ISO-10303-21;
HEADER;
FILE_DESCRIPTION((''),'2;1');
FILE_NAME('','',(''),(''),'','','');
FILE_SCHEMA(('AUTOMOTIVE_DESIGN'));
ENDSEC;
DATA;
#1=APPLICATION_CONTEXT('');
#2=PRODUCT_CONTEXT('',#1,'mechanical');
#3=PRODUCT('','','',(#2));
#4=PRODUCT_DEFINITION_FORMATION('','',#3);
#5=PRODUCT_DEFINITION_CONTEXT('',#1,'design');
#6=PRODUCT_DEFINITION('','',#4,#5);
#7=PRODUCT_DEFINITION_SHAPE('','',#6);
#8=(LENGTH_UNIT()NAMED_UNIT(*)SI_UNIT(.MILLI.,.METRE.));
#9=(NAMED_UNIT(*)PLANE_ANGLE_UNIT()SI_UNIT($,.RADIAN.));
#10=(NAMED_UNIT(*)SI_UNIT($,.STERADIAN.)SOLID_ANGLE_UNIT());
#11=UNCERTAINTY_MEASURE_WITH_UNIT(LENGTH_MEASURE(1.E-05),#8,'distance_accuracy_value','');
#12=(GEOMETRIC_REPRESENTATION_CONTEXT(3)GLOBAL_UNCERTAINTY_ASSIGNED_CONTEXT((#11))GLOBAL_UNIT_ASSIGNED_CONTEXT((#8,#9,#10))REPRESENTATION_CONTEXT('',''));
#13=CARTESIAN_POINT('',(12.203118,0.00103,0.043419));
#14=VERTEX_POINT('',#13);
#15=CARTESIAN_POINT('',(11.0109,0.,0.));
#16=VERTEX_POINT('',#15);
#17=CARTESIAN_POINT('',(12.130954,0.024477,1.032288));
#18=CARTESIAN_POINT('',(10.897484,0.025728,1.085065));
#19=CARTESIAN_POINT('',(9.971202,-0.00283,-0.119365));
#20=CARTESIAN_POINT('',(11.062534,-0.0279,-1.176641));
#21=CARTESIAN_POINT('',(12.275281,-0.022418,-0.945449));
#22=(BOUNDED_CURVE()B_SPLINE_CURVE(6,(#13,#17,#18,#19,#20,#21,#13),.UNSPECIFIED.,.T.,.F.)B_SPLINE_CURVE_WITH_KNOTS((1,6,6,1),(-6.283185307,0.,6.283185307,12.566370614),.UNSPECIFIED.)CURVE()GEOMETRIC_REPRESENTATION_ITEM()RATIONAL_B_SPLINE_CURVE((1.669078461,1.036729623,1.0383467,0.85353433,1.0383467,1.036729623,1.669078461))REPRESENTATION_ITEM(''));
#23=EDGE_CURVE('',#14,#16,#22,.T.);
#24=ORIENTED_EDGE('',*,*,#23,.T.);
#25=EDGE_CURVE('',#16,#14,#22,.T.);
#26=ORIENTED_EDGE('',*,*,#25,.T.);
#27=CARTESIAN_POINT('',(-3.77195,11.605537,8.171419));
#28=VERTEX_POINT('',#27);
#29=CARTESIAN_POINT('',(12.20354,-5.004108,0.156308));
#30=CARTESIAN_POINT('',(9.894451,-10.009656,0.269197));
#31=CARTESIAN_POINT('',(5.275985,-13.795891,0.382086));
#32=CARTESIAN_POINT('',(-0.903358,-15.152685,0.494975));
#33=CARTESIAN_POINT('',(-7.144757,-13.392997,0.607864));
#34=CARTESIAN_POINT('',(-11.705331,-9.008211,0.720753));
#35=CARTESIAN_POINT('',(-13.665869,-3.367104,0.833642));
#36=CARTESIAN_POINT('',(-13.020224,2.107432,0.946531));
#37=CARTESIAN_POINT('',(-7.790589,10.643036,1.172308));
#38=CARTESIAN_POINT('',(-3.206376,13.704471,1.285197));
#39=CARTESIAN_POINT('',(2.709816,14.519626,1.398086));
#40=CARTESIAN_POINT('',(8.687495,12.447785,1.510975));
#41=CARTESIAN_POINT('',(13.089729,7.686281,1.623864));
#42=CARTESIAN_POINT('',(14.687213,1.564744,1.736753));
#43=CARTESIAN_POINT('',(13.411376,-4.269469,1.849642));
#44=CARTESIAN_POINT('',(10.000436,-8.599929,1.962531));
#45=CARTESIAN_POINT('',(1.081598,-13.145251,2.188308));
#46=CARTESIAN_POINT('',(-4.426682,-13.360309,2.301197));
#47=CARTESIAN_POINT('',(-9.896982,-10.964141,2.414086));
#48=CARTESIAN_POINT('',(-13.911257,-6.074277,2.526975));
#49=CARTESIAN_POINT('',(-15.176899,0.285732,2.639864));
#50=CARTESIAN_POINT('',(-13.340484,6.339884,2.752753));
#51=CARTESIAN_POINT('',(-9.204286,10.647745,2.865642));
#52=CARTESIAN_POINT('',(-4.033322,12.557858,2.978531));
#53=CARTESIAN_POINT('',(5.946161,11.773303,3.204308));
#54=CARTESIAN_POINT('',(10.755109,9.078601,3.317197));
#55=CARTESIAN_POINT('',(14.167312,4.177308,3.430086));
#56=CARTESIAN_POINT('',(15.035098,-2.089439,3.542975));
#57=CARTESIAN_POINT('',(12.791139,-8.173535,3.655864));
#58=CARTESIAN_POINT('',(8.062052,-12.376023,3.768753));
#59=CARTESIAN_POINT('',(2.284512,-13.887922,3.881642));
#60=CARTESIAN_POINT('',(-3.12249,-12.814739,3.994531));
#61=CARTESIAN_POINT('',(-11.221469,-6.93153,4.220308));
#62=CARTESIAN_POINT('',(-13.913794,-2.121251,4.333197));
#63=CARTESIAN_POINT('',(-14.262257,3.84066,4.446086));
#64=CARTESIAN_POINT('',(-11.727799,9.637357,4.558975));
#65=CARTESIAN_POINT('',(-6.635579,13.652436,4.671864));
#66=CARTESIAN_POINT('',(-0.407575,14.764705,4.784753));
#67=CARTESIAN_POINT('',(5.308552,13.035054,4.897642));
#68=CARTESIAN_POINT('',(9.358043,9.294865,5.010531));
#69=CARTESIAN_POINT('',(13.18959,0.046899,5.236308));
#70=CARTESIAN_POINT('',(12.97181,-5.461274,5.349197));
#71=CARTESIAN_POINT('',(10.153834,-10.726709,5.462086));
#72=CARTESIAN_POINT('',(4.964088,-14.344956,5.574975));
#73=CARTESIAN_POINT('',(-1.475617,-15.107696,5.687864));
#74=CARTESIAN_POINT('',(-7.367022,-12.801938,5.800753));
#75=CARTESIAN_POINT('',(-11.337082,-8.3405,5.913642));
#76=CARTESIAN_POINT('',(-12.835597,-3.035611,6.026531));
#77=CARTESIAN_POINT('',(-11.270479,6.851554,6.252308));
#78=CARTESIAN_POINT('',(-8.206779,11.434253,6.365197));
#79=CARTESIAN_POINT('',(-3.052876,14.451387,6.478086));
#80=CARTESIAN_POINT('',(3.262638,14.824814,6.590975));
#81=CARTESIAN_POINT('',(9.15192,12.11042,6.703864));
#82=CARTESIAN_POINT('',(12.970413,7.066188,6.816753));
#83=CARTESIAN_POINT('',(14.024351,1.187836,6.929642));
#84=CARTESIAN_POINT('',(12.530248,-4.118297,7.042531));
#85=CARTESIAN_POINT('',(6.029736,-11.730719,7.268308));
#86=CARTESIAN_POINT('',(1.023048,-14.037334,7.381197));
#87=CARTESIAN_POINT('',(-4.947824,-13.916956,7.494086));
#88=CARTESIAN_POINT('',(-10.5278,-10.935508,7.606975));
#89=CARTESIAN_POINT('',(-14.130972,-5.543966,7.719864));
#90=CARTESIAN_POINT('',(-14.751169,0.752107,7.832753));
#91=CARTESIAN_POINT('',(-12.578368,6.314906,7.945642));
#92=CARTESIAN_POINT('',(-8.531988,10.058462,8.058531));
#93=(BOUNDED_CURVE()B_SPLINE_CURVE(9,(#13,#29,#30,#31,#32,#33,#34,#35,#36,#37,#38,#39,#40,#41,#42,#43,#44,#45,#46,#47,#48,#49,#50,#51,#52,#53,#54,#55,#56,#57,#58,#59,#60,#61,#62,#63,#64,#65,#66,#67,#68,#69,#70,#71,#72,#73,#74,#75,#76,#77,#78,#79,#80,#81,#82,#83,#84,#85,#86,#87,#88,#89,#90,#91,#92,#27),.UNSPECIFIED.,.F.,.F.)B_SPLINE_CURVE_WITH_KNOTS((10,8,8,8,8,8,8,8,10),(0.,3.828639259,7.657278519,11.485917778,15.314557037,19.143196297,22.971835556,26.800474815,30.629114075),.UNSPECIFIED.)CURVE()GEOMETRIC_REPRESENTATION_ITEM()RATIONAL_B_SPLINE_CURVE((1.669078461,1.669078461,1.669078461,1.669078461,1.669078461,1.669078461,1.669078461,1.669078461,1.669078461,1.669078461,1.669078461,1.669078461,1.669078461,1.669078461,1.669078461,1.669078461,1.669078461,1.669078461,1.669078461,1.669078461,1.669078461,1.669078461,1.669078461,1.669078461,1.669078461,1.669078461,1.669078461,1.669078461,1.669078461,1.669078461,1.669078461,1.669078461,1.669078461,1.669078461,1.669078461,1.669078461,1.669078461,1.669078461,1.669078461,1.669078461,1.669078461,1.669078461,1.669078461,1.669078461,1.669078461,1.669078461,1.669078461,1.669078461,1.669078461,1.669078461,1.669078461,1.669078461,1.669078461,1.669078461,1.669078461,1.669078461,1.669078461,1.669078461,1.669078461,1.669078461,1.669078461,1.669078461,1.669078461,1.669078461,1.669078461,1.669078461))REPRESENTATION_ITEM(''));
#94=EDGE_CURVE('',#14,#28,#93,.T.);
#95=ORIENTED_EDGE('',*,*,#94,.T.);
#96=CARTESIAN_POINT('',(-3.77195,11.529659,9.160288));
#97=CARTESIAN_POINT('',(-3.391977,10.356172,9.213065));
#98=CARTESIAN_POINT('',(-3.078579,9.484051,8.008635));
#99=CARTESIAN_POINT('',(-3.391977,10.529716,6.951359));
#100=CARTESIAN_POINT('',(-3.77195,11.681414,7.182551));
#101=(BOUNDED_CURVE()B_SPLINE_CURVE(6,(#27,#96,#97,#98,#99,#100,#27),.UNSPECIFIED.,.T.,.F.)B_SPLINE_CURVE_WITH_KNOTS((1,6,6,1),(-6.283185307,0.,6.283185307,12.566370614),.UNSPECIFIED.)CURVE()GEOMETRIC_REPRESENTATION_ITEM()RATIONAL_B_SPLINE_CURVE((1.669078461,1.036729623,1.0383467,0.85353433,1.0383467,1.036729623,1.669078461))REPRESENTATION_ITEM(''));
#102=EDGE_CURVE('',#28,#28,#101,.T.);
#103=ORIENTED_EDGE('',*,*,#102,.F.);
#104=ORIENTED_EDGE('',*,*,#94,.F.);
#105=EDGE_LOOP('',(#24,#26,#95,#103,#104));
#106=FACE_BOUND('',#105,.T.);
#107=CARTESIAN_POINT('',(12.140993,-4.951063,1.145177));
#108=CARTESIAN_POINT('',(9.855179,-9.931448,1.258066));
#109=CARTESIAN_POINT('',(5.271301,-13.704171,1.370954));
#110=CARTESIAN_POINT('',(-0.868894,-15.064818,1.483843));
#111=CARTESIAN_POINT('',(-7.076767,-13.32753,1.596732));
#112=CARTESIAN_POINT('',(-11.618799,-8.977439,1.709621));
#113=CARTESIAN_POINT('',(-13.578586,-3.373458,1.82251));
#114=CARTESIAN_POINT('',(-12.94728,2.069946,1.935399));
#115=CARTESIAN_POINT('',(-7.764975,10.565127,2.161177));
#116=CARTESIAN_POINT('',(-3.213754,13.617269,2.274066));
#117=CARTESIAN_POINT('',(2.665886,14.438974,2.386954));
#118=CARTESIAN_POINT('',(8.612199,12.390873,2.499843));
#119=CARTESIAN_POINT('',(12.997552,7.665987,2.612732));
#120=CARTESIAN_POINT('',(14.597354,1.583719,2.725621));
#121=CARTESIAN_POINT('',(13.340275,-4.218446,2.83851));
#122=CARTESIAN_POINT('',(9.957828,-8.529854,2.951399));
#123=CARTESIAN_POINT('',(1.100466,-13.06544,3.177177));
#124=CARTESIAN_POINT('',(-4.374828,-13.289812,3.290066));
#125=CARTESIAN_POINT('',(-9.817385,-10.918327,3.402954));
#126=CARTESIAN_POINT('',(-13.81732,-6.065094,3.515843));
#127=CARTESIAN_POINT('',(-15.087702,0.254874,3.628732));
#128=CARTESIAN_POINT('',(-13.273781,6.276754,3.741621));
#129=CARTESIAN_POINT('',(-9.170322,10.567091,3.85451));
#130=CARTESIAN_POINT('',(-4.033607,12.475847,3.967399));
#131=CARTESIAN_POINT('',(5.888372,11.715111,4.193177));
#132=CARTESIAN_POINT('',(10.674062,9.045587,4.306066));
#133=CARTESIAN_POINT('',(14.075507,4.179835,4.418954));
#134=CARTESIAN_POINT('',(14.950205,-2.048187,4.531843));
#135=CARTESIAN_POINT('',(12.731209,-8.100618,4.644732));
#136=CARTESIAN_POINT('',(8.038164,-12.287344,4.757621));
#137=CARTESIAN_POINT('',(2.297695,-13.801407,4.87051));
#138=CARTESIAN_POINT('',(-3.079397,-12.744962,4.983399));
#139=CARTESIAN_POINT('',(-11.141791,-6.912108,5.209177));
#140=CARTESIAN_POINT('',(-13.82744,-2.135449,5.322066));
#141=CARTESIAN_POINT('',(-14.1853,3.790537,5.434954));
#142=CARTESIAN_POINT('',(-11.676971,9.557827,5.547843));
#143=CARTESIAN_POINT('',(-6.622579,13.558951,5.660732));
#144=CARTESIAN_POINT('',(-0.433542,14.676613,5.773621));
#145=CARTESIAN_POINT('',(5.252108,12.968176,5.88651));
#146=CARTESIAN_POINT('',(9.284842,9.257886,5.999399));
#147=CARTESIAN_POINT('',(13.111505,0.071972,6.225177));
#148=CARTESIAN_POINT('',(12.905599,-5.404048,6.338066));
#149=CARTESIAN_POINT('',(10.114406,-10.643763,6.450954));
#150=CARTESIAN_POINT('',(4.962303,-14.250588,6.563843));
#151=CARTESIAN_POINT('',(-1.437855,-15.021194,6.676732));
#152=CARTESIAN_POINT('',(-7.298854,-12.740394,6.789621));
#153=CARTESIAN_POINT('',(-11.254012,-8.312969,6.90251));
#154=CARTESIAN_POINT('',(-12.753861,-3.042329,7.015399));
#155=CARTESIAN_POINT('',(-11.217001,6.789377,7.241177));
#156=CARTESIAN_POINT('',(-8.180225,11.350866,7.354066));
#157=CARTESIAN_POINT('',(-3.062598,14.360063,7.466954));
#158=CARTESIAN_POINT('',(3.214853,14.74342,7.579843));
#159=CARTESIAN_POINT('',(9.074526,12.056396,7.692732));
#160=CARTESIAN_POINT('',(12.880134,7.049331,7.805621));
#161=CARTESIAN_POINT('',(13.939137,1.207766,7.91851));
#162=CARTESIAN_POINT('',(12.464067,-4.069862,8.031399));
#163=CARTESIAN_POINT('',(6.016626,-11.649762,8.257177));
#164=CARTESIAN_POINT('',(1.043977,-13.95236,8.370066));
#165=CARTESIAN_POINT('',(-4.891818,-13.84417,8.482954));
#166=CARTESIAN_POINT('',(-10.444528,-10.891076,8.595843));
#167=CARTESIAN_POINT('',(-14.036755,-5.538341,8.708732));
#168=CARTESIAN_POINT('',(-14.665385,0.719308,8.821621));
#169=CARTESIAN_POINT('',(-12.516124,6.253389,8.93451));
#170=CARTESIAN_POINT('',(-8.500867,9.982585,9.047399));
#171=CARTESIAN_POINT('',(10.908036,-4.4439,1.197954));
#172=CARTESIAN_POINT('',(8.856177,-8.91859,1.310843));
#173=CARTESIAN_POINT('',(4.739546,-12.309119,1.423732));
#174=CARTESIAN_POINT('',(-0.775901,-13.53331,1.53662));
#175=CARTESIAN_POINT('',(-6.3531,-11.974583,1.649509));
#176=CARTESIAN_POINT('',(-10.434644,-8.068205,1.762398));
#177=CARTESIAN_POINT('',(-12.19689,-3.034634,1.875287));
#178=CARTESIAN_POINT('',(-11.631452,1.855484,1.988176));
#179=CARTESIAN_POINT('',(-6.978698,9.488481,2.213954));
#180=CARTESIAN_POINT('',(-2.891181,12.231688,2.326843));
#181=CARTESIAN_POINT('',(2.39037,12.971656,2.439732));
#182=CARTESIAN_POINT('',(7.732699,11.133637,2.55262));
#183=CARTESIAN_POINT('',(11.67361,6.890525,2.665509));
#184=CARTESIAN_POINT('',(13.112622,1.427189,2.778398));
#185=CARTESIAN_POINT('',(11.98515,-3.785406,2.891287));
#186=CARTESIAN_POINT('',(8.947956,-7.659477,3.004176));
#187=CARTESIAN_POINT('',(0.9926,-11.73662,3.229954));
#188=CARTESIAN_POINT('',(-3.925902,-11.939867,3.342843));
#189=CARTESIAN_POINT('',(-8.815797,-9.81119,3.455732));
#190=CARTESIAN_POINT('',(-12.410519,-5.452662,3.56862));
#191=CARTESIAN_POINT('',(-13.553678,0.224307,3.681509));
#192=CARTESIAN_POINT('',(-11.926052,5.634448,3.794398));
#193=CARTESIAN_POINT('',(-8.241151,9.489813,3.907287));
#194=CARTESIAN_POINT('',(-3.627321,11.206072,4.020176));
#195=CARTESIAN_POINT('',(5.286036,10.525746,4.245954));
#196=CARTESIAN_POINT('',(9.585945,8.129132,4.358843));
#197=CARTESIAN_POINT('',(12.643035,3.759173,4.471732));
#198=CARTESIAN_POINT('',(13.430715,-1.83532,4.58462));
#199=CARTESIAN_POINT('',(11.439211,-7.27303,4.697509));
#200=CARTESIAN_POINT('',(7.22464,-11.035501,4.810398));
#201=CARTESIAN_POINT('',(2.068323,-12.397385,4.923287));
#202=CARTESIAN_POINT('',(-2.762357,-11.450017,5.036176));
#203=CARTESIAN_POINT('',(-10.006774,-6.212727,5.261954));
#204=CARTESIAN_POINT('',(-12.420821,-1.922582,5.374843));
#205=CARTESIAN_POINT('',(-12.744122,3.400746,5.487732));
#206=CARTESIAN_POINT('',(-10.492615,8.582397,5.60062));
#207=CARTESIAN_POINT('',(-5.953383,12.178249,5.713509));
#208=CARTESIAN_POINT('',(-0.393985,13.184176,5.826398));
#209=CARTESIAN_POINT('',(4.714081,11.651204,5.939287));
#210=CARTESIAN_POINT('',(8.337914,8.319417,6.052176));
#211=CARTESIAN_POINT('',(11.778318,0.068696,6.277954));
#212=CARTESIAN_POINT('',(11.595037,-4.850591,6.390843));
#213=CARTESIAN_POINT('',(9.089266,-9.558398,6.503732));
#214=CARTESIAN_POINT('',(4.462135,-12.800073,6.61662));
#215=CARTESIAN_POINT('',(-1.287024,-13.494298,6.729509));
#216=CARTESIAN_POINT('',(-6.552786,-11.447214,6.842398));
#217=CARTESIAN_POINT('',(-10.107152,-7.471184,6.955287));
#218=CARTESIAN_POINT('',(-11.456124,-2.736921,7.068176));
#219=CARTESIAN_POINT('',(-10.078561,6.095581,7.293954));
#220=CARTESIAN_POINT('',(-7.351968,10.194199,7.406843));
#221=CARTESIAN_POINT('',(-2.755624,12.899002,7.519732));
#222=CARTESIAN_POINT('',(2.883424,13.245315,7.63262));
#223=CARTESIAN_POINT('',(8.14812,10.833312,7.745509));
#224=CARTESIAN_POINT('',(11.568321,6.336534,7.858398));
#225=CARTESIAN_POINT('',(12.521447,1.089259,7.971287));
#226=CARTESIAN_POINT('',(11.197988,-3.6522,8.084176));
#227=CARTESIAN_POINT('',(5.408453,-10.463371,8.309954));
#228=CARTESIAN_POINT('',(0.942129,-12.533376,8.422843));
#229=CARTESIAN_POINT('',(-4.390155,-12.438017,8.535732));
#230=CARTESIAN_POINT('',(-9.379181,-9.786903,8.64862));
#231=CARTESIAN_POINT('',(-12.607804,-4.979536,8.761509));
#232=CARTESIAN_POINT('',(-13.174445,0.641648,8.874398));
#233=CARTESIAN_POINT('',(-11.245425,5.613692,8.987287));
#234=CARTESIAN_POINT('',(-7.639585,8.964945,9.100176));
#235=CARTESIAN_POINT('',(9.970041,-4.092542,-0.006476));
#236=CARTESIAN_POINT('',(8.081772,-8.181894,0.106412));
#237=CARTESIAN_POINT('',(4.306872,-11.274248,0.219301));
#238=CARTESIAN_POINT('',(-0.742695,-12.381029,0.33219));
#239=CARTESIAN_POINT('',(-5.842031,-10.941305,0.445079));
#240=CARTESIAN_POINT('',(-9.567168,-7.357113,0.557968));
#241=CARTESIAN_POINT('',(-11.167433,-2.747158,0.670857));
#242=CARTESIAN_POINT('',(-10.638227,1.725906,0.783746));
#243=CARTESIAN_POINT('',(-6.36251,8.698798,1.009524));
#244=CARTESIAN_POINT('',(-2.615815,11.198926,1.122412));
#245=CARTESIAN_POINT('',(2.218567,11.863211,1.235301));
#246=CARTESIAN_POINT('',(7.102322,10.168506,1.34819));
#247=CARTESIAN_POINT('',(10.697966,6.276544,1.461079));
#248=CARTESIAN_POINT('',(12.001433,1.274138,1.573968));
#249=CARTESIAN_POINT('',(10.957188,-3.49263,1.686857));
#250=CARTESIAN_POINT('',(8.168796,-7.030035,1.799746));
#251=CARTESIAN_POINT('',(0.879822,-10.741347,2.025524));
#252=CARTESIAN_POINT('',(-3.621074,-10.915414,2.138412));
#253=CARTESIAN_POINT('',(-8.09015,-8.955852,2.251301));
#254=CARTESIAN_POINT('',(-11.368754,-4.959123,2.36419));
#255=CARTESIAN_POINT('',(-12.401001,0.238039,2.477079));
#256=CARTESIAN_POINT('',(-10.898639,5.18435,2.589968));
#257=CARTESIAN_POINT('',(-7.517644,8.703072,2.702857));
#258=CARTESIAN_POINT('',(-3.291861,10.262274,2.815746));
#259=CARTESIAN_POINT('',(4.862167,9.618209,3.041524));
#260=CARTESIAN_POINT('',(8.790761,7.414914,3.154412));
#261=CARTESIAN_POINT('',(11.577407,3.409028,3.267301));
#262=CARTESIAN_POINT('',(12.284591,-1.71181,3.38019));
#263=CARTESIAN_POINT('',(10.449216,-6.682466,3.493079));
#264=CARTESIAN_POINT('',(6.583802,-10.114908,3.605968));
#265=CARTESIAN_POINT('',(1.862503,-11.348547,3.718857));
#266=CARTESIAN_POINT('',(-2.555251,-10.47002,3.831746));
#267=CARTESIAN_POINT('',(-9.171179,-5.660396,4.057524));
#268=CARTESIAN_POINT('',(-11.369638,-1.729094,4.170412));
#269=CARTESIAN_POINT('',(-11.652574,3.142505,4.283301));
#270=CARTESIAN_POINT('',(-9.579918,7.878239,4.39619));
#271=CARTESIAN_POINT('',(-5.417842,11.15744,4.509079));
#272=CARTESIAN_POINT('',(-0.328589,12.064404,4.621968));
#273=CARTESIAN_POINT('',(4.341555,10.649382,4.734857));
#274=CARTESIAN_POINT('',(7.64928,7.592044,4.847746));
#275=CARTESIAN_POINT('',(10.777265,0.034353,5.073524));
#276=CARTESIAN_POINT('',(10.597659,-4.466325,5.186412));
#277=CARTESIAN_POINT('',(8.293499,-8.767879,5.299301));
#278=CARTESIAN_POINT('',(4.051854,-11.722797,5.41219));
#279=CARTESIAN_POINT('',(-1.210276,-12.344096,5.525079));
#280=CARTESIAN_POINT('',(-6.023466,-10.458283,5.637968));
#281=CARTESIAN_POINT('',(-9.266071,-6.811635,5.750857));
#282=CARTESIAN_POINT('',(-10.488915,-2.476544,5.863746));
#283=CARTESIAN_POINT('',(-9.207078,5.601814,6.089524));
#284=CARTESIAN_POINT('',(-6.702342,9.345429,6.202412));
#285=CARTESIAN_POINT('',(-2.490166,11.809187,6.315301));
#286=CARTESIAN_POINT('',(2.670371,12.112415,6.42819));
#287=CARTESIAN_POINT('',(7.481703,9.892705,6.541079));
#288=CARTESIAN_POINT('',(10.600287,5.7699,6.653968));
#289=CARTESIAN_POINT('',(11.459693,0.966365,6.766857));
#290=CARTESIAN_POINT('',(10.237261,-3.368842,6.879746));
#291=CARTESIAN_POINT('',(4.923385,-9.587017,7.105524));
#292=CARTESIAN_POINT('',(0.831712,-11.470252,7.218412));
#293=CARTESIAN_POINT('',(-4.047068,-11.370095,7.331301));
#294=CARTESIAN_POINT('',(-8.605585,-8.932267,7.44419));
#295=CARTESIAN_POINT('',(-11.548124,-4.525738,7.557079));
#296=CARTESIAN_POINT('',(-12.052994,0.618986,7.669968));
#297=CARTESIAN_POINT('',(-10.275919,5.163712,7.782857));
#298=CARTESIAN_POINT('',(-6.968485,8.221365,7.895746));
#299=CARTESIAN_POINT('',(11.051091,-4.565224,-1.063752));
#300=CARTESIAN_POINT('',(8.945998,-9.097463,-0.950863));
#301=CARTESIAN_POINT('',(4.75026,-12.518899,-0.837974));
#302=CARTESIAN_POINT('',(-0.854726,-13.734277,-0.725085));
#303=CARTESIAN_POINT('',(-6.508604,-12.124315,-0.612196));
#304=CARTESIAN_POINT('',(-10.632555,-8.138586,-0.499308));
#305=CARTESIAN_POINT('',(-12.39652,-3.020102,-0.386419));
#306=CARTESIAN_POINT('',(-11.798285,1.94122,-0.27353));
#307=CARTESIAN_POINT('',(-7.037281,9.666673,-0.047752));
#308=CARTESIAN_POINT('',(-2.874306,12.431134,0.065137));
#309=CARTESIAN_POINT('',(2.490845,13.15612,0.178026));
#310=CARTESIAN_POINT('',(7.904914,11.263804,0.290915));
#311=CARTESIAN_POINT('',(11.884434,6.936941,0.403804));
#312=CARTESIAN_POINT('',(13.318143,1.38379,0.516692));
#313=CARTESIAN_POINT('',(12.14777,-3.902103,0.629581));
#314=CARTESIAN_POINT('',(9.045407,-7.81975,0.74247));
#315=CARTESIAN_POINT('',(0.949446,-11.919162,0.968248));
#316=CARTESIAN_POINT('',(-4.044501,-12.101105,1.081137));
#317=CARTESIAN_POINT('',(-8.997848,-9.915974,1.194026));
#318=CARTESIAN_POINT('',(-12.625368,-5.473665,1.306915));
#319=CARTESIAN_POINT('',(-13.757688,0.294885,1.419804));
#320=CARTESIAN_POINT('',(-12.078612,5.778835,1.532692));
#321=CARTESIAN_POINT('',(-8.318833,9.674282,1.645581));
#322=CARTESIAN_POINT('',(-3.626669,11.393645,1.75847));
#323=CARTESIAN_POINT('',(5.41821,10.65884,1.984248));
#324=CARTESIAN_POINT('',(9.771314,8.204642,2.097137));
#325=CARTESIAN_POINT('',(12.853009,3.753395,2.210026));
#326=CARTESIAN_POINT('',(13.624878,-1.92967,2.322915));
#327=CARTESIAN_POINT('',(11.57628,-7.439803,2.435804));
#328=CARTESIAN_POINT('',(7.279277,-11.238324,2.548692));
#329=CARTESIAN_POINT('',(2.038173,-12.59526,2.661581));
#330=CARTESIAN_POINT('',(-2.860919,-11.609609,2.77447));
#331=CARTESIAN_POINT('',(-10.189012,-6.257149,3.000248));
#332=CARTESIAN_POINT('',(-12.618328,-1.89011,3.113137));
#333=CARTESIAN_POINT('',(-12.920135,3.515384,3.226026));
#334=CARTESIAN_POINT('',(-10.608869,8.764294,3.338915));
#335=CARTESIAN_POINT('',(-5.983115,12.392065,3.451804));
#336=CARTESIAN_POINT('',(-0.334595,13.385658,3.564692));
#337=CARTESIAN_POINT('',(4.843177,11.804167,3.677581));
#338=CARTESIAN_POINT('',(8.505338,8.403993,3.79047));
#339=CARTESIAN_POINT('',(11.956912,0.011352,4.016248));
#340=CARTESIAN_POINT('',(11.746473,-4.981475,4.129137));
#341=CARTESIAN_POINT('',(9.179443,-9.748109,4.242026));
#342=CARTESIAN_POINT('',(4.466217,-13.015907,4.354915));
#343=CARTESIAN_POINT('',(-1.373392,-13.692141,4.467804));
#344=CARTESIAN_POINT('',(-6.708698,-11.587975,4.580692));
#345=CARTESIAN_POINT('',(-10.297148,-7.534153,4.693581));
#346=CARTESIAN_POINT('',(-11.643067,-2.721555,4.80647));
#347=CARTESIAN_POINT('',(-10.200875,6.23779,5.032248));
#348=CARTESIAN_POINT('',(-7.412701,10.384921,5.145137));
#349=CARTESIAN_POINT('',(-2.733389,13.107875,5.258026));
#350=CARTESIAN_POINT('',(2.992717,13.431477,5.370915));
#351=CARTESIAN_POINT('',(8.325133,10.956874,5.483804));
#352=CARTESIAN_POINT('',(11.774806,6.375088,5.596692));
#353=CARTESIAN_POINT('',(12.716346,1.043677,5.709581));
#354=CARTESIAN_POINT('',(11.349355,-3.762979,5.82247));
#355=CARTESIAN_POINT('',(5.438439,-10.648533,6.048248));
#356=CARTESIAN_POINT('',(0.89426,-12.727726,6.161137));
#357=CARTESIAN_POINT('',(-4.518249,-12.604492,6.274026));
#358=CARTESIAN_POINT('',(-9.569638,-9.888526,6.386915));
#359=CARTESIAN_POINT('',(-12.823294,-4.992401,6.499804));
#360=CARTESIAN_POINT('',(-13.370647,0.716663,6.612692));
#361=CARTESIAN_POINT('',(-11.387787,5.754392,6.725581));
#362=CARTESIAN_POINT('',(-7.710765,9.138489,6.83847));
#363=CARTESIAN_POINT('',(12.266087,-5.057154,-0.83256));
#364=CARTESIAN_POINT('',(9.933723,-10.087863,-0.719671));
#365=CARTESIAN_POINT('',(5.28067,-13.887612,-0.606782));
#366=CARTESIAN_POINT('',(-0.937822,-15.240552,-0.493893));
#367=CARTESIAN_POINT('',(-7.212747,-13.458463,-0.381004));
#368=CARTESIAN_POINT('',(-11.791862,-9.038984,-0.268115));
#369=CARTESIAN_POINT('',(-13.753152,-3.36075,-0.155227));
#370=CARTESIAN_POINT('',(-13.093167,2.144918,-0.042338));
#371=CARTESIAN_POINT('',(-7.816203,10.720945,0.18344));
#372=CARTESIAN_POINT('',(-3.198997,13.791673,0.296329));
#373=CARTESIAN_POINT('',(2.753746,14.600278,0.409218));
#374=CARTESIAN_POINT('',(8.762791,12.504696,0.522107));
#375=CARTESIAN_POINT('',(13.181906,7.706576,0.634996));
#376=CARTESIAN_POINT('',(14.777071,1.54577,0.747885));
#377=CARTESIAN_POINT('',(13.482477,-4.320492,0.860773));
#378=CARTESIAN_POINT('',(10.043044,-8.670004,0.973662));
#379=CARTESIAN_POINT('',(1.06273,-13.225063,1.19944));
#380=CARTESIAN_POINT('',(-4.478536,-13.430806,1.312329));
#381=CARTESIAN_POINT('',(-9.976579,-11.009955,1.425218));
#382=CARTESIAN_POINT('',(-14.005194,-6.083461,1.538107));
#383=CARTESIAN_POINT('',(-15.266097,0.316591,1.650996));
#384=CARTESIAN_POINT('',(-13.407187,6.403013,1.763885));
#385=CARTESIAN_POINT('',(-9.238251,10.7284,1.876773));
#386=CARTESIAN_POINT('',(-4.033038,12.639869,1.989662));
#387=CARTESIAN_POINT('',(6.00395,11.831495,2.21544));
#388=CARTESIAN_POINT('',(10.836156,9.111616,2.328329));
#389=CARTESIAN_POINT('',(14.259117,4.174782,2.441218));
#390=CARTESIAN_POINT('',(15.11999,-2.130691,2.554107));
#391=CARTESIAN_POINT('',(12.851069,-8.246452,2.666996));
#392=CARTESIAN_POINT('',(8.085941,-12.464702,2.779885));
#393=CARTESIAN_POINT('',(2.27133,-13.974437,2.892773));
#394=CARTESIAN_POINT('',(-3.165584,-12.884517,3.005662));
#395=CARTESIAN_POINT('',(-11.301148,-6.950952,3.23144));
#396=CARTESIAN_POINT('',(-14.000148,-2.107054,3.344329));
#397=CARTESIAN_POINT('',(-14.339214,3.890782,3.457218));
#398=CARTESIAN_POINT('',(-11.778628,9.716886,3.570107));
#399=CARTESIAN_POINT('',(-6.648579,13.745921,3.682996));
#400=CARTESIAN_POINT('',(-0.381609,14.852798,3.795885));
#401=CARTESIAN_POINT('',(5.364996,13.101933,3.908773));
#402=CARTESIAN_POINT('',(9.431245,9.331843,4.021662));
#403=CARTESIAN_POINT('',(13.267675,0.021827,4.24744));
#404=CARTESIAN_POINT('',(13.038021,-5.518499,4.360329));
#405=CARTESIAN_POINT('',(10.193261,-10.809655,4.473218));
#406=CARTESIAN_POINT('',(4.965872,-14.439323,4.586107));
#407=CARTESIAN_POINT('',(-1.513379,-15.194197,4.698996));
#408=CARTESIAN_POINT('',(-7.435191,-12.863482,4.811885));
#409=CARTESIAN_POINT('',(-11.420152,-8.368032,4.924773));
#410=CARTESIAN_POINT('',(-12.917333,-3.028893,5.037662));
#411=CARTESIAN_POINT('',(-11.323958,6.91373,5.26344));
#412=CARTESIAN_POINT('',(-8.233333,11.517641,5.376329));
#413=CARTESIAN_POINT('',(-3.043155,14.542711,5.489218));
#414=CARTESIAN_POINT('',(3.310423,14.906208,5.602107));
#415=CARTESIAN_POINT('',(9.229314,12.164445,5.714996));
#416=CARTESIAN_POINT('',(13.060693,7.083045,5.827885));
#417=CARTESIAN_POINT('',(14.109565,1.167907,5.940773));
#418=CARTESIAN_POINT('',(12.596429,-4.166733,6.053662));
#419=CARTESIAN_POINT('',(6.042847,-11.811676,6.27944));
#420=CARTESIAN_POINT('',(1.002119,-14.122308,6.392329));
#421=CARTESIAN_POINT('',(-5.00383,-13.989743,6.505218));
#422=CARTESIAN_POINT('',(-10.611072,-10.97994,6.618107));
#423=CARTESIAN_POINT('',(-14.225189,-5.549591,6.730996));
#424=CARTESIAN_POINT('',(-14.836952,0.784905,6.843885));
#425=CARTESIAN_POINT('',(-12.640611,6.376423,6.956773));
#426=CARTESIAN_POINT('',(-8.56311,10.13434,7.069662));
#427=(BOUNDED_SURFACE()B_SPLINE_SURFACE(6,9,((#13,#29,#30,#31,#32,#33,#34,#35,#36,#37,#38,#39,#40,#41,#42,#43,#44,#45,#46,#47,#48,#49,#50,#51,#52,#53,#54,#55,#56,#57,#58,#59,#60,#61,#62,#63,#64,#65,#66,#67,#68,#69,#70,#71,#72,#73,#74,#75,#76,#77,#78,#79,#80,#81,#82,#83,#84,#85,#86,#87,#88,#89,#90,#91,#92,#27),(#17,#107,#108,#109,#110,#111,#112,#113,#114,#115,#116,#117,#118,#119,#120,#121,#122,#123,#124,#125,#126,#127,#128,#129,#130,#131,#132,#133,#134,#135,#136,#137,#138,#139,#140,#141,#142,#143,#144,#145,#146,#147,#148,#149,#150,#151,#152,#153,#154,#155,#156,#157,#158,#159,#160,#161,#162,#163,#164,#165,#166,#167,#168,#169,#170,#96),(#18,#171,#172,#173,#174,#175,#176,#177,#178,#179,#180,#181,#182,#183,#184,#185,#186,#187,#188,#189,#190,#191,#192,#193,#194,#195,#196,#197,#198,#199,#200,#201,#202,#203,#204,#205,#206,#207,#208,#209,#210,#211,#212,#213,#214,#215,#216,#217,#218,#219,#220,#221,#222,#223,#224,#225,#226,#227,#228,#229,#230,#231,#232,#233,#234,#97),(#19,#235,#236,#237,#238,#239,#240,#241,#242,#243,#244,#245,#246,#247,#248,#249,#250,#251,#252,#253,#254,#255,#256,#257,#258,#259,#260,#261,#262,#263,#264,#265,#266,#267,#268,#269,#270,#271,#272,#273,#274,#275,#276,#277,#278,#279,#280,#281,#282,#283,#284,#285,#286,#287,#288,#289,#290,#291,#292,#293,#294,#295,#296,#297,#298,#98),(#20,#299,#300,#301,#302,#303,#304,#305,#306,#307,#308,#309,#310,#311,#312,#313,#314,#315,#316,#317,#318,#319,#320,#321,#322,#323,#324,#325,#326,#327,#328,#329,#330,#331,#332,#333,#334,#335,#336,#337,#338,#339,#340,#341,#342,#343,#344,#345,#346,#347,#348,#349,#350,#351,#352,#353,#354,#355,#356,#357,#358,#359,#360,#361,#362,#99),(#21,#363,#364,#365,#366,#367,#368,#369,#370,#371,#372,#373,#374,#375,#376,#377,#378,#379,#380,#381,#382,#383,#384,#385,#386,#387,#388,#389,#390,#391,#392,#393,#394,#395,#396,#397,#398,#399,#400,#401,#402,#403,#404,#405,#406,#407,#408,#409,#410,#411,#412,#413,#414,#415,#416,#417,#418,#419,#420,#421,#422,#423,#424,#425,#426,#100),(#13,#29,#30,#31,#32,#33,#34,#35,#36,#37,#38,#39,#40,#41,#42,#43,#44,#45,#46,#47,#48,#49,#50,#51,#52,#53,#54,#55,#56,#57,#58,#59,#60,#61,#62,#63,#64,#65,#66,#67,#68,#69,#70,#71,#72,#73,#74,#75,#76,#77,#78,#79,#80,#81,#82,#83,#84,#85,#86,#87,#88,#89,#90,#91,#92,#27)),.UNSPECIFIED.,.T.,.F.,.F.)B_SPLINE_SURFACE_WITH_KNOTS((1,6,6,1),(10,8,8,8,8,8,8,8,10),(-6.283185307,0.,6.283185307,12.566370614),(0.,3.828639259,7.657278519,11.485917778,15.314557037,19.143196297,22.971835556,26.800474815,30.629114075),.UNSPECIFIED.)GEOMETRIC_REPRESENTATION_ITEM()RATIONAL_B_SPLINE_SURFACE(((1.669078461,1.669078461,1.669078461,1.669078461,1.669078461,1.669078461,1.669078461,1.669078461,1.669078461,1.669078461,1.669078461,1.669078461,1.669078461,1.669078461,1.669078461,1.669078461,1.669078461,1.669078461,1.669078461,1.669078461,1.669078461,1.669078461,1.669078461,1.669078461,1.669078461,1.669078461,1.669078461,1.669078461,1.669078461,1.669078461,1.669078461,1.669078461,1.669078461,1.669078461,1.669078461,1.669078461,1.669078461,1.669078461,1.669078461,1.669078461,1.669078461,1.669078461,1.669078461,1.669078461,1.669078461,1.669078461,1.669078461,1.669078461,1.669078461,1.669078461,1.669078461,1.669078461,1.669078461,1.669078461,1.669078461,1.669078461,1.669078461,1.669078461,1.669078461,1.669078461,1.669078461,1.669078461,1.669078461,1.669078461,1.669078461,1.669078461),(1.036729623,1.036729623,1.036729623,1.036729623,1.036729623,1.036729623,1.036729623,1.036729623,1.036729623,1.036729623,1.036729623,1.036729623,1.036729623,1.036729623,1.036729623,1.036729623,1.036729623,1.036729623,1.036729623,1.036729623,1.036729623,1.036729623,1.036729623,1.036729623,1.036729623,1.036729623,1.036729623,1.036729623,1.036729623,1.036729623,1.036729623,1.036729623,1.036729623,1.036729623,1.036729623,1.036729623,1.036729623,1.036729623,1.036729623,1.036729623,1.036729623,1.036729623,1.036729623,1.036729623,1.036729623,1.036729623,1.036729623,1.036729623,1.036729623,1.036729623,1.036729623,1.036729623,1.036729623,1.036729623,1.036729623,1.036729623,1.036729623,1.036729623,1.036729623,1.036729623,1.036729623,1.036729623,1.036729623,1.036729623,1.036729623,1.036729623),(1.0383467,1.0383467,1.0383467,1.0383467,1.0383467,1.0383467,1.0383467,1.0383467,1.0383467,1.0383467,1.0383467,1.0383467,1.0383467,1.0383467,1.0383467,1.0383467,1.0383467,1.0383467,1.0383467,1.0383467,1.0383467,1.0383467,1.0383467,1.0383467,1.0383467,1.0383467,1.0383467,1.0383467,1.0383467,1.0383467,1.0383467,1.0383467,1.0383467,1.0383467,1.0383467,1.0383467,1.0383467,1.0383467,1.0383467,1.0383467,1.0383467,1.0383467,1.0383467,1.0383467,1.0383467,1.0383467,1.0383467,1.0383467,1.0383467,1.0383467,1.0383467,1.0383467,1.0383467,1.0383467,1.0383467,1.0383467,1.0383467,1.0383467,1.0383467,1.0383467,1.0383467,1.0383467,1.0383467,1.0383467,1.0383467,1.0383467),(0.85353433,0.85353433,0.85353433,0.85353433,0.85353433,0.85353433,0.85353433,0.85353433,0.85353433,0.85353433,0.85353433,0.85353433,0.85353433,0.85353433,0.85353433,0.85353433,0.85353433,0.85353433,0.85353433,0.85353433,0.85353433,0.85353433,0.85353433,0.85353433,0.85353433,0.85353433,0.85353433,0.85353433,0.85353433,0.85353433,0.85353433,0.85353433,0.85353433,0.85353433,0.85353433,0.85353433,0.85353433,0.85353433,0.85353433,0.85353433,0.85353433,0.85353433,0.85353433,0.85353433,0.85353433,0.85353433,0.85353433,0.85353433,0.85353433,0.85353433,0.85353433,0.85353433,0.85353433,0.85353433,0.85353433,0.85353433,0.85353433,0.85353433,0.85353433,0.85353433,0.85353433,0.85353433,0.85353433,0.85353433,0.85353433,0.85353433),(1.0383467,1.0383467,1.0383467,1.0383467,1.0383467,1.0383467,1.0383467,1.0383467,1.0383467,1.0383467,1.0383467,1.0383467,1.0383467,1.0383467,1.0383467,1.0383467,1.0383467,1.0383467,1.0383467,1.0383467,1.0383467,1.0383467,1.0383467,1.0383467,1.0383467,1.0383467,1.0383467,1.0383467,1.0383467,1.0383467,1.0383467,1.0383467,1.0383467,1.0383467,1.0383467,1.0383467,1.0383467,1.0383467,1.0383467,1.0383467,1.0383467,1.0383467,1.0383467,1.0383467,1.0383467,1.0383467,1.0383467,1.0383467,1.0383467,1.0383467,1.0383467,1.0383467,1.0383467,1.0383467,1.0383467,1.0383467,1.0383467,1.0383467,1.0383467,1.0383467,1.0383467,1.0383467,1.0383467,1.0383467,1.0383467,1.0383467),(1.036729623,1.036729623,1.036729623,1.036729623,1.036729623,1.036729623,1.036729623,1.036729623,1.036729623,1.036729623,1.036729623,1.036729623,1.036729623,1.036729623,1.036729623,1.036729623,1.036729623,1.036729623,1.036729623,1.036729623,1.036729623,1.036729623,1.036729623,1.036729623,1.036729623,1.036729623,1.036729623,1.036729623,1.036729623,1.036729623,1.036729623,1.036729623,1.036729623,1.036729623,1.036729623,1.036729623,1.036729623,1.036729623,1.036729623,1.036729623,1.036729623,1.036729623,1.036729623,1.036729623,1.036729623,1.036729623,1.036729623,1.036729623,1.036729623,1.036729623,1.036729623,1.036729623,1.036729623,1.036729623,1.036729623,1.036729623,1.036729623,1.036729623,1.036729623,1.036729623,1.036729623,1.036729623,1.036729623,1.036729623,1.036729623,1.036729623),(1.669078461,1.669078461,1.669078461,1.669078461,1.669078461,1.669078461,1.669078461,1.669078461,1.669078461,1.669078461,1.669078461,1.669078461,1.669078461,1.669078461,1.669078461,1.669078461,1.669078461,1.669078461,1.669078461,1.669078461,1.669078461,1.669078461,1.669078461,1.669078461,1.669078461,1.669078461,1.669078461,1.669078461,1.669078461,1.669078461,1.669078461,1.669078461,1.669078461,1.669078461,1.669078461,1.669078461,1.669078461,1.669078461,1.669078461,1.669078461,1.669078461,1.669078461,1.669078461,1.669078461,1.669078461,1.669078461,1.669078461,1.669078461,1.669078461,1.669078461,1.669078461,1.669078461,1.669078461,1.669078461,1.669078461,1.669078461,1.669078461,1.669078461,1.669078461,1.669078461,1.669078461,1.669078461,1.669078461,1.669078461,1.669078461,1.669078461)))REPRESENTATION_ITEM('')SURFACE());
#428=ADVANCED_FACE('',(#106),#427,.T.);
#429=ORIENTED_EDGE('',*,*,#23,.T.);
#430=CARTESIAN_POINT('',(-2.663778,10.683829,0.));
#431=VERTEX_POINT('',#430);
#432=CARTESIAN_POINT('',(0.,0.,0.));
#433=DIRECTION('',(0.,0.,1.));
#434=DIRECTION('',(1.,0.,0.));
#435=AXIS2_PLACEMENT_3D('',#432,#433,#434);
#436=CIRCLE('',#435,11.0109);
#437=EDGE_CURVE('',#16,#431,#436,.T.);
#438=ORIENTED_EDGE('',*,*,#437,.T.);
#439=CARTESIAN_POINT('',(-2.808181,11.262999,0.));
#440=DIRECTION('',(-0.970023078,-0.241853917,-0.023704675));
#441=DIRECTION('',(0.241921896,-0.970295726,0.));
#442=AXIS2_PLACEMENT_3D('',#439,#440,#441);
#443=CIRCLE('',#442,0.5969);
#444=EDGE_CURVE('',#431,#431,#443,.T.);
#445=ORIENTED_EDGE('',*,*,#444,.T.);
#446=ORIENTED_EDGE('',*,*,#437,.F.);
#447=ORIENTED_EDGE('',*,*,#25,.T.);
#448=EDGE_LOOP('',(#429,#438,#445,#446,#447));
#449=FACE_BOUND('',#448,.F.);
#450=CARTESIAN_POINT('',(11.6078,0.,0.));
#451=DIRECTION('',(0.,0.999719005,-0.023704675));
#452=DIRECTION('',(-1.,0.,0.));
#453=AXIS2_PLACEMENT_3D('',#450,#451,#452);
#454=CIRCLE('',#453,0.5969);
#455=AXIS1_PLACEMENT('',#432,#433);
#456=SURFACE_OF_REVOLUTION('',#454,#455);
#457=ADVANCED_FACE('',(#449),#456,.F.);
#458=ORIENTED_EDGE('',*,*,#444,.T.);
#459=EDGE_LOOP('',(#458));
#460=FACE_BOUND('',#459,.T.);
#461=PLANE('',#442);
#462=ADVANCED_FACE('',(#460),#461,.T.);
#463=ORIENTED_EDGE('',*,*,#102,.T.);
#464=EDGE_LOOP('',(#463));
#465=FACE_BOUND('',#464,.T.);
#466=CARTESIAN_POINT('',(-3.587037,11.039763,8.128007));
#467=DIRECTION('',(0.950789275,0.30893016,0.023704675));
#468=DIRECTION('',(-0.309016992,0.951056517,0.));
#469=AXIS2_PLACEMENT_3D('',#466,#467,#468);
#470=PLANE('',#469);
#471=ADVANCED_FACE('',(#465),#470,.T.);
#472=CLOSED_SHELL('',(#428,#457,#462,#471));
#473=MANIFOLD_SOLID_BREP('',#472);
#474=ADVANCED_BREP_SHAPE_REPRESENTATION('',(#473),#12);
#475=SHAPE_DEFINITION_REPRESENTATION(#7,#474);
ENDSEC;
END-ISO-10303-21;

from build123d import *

# Parameters (mm, degrees)
BASE_SWEEP_PITCH  = 1.729361702
BASE_SWEEP_HEIGHT = 8.128
BASE_SWEEP_RADIUS = 11.6078
SKETCH2_R         = 0.5969
SKETCH4_R         = 0.5969


with BuildPart() as part:
    # Base-Sweep: sweep along a helix
    with BuildLine() as base_sweep_path:
        Helix(BASE_SWEEP_PITCH, BASE_SWEEP_HEIGHT, BASE_SWEEP_RADIUS, center=(0, 0, 0), direction=(0, 0, 1), lefthand=True)
    # Sketch2 → Base-Sweep (sweep)
    with BuildSketch(Plane(origin=(-3.587007467, 11.03967383, 8.128), x_dir=(-0.309838275, 0.948002581, 0.07274166), z_dir=(0.950789274, 0.308930162, 0.023704675))):
        Circle(SKETCH2_R)
    sweep(path=base_sweep_path.line, is_frenet=True)

    # Boss-Sweep1: sweep along a path in Sketch3
    with BuildLine(Plane.XY) as boss_sweep1_path:
        ThreePointArc((11.6078, 0), (7.146475273, 9.147071226), (-2.80818098, 11.262998731))
    # Sketch4 → Boss-Sweep1 (sweep)
    with BuildSketch(Plane(origin=(0, 0, 0), x_dir=(-1, 0, 0), z_dir=(0, 0.999719005, -0.023704675))):
        with Locations((-11.6078, 0)):
            Circle(SKETCH4_R)
    sweep(path=boss_sweep1_path.line)


solid = part.part
